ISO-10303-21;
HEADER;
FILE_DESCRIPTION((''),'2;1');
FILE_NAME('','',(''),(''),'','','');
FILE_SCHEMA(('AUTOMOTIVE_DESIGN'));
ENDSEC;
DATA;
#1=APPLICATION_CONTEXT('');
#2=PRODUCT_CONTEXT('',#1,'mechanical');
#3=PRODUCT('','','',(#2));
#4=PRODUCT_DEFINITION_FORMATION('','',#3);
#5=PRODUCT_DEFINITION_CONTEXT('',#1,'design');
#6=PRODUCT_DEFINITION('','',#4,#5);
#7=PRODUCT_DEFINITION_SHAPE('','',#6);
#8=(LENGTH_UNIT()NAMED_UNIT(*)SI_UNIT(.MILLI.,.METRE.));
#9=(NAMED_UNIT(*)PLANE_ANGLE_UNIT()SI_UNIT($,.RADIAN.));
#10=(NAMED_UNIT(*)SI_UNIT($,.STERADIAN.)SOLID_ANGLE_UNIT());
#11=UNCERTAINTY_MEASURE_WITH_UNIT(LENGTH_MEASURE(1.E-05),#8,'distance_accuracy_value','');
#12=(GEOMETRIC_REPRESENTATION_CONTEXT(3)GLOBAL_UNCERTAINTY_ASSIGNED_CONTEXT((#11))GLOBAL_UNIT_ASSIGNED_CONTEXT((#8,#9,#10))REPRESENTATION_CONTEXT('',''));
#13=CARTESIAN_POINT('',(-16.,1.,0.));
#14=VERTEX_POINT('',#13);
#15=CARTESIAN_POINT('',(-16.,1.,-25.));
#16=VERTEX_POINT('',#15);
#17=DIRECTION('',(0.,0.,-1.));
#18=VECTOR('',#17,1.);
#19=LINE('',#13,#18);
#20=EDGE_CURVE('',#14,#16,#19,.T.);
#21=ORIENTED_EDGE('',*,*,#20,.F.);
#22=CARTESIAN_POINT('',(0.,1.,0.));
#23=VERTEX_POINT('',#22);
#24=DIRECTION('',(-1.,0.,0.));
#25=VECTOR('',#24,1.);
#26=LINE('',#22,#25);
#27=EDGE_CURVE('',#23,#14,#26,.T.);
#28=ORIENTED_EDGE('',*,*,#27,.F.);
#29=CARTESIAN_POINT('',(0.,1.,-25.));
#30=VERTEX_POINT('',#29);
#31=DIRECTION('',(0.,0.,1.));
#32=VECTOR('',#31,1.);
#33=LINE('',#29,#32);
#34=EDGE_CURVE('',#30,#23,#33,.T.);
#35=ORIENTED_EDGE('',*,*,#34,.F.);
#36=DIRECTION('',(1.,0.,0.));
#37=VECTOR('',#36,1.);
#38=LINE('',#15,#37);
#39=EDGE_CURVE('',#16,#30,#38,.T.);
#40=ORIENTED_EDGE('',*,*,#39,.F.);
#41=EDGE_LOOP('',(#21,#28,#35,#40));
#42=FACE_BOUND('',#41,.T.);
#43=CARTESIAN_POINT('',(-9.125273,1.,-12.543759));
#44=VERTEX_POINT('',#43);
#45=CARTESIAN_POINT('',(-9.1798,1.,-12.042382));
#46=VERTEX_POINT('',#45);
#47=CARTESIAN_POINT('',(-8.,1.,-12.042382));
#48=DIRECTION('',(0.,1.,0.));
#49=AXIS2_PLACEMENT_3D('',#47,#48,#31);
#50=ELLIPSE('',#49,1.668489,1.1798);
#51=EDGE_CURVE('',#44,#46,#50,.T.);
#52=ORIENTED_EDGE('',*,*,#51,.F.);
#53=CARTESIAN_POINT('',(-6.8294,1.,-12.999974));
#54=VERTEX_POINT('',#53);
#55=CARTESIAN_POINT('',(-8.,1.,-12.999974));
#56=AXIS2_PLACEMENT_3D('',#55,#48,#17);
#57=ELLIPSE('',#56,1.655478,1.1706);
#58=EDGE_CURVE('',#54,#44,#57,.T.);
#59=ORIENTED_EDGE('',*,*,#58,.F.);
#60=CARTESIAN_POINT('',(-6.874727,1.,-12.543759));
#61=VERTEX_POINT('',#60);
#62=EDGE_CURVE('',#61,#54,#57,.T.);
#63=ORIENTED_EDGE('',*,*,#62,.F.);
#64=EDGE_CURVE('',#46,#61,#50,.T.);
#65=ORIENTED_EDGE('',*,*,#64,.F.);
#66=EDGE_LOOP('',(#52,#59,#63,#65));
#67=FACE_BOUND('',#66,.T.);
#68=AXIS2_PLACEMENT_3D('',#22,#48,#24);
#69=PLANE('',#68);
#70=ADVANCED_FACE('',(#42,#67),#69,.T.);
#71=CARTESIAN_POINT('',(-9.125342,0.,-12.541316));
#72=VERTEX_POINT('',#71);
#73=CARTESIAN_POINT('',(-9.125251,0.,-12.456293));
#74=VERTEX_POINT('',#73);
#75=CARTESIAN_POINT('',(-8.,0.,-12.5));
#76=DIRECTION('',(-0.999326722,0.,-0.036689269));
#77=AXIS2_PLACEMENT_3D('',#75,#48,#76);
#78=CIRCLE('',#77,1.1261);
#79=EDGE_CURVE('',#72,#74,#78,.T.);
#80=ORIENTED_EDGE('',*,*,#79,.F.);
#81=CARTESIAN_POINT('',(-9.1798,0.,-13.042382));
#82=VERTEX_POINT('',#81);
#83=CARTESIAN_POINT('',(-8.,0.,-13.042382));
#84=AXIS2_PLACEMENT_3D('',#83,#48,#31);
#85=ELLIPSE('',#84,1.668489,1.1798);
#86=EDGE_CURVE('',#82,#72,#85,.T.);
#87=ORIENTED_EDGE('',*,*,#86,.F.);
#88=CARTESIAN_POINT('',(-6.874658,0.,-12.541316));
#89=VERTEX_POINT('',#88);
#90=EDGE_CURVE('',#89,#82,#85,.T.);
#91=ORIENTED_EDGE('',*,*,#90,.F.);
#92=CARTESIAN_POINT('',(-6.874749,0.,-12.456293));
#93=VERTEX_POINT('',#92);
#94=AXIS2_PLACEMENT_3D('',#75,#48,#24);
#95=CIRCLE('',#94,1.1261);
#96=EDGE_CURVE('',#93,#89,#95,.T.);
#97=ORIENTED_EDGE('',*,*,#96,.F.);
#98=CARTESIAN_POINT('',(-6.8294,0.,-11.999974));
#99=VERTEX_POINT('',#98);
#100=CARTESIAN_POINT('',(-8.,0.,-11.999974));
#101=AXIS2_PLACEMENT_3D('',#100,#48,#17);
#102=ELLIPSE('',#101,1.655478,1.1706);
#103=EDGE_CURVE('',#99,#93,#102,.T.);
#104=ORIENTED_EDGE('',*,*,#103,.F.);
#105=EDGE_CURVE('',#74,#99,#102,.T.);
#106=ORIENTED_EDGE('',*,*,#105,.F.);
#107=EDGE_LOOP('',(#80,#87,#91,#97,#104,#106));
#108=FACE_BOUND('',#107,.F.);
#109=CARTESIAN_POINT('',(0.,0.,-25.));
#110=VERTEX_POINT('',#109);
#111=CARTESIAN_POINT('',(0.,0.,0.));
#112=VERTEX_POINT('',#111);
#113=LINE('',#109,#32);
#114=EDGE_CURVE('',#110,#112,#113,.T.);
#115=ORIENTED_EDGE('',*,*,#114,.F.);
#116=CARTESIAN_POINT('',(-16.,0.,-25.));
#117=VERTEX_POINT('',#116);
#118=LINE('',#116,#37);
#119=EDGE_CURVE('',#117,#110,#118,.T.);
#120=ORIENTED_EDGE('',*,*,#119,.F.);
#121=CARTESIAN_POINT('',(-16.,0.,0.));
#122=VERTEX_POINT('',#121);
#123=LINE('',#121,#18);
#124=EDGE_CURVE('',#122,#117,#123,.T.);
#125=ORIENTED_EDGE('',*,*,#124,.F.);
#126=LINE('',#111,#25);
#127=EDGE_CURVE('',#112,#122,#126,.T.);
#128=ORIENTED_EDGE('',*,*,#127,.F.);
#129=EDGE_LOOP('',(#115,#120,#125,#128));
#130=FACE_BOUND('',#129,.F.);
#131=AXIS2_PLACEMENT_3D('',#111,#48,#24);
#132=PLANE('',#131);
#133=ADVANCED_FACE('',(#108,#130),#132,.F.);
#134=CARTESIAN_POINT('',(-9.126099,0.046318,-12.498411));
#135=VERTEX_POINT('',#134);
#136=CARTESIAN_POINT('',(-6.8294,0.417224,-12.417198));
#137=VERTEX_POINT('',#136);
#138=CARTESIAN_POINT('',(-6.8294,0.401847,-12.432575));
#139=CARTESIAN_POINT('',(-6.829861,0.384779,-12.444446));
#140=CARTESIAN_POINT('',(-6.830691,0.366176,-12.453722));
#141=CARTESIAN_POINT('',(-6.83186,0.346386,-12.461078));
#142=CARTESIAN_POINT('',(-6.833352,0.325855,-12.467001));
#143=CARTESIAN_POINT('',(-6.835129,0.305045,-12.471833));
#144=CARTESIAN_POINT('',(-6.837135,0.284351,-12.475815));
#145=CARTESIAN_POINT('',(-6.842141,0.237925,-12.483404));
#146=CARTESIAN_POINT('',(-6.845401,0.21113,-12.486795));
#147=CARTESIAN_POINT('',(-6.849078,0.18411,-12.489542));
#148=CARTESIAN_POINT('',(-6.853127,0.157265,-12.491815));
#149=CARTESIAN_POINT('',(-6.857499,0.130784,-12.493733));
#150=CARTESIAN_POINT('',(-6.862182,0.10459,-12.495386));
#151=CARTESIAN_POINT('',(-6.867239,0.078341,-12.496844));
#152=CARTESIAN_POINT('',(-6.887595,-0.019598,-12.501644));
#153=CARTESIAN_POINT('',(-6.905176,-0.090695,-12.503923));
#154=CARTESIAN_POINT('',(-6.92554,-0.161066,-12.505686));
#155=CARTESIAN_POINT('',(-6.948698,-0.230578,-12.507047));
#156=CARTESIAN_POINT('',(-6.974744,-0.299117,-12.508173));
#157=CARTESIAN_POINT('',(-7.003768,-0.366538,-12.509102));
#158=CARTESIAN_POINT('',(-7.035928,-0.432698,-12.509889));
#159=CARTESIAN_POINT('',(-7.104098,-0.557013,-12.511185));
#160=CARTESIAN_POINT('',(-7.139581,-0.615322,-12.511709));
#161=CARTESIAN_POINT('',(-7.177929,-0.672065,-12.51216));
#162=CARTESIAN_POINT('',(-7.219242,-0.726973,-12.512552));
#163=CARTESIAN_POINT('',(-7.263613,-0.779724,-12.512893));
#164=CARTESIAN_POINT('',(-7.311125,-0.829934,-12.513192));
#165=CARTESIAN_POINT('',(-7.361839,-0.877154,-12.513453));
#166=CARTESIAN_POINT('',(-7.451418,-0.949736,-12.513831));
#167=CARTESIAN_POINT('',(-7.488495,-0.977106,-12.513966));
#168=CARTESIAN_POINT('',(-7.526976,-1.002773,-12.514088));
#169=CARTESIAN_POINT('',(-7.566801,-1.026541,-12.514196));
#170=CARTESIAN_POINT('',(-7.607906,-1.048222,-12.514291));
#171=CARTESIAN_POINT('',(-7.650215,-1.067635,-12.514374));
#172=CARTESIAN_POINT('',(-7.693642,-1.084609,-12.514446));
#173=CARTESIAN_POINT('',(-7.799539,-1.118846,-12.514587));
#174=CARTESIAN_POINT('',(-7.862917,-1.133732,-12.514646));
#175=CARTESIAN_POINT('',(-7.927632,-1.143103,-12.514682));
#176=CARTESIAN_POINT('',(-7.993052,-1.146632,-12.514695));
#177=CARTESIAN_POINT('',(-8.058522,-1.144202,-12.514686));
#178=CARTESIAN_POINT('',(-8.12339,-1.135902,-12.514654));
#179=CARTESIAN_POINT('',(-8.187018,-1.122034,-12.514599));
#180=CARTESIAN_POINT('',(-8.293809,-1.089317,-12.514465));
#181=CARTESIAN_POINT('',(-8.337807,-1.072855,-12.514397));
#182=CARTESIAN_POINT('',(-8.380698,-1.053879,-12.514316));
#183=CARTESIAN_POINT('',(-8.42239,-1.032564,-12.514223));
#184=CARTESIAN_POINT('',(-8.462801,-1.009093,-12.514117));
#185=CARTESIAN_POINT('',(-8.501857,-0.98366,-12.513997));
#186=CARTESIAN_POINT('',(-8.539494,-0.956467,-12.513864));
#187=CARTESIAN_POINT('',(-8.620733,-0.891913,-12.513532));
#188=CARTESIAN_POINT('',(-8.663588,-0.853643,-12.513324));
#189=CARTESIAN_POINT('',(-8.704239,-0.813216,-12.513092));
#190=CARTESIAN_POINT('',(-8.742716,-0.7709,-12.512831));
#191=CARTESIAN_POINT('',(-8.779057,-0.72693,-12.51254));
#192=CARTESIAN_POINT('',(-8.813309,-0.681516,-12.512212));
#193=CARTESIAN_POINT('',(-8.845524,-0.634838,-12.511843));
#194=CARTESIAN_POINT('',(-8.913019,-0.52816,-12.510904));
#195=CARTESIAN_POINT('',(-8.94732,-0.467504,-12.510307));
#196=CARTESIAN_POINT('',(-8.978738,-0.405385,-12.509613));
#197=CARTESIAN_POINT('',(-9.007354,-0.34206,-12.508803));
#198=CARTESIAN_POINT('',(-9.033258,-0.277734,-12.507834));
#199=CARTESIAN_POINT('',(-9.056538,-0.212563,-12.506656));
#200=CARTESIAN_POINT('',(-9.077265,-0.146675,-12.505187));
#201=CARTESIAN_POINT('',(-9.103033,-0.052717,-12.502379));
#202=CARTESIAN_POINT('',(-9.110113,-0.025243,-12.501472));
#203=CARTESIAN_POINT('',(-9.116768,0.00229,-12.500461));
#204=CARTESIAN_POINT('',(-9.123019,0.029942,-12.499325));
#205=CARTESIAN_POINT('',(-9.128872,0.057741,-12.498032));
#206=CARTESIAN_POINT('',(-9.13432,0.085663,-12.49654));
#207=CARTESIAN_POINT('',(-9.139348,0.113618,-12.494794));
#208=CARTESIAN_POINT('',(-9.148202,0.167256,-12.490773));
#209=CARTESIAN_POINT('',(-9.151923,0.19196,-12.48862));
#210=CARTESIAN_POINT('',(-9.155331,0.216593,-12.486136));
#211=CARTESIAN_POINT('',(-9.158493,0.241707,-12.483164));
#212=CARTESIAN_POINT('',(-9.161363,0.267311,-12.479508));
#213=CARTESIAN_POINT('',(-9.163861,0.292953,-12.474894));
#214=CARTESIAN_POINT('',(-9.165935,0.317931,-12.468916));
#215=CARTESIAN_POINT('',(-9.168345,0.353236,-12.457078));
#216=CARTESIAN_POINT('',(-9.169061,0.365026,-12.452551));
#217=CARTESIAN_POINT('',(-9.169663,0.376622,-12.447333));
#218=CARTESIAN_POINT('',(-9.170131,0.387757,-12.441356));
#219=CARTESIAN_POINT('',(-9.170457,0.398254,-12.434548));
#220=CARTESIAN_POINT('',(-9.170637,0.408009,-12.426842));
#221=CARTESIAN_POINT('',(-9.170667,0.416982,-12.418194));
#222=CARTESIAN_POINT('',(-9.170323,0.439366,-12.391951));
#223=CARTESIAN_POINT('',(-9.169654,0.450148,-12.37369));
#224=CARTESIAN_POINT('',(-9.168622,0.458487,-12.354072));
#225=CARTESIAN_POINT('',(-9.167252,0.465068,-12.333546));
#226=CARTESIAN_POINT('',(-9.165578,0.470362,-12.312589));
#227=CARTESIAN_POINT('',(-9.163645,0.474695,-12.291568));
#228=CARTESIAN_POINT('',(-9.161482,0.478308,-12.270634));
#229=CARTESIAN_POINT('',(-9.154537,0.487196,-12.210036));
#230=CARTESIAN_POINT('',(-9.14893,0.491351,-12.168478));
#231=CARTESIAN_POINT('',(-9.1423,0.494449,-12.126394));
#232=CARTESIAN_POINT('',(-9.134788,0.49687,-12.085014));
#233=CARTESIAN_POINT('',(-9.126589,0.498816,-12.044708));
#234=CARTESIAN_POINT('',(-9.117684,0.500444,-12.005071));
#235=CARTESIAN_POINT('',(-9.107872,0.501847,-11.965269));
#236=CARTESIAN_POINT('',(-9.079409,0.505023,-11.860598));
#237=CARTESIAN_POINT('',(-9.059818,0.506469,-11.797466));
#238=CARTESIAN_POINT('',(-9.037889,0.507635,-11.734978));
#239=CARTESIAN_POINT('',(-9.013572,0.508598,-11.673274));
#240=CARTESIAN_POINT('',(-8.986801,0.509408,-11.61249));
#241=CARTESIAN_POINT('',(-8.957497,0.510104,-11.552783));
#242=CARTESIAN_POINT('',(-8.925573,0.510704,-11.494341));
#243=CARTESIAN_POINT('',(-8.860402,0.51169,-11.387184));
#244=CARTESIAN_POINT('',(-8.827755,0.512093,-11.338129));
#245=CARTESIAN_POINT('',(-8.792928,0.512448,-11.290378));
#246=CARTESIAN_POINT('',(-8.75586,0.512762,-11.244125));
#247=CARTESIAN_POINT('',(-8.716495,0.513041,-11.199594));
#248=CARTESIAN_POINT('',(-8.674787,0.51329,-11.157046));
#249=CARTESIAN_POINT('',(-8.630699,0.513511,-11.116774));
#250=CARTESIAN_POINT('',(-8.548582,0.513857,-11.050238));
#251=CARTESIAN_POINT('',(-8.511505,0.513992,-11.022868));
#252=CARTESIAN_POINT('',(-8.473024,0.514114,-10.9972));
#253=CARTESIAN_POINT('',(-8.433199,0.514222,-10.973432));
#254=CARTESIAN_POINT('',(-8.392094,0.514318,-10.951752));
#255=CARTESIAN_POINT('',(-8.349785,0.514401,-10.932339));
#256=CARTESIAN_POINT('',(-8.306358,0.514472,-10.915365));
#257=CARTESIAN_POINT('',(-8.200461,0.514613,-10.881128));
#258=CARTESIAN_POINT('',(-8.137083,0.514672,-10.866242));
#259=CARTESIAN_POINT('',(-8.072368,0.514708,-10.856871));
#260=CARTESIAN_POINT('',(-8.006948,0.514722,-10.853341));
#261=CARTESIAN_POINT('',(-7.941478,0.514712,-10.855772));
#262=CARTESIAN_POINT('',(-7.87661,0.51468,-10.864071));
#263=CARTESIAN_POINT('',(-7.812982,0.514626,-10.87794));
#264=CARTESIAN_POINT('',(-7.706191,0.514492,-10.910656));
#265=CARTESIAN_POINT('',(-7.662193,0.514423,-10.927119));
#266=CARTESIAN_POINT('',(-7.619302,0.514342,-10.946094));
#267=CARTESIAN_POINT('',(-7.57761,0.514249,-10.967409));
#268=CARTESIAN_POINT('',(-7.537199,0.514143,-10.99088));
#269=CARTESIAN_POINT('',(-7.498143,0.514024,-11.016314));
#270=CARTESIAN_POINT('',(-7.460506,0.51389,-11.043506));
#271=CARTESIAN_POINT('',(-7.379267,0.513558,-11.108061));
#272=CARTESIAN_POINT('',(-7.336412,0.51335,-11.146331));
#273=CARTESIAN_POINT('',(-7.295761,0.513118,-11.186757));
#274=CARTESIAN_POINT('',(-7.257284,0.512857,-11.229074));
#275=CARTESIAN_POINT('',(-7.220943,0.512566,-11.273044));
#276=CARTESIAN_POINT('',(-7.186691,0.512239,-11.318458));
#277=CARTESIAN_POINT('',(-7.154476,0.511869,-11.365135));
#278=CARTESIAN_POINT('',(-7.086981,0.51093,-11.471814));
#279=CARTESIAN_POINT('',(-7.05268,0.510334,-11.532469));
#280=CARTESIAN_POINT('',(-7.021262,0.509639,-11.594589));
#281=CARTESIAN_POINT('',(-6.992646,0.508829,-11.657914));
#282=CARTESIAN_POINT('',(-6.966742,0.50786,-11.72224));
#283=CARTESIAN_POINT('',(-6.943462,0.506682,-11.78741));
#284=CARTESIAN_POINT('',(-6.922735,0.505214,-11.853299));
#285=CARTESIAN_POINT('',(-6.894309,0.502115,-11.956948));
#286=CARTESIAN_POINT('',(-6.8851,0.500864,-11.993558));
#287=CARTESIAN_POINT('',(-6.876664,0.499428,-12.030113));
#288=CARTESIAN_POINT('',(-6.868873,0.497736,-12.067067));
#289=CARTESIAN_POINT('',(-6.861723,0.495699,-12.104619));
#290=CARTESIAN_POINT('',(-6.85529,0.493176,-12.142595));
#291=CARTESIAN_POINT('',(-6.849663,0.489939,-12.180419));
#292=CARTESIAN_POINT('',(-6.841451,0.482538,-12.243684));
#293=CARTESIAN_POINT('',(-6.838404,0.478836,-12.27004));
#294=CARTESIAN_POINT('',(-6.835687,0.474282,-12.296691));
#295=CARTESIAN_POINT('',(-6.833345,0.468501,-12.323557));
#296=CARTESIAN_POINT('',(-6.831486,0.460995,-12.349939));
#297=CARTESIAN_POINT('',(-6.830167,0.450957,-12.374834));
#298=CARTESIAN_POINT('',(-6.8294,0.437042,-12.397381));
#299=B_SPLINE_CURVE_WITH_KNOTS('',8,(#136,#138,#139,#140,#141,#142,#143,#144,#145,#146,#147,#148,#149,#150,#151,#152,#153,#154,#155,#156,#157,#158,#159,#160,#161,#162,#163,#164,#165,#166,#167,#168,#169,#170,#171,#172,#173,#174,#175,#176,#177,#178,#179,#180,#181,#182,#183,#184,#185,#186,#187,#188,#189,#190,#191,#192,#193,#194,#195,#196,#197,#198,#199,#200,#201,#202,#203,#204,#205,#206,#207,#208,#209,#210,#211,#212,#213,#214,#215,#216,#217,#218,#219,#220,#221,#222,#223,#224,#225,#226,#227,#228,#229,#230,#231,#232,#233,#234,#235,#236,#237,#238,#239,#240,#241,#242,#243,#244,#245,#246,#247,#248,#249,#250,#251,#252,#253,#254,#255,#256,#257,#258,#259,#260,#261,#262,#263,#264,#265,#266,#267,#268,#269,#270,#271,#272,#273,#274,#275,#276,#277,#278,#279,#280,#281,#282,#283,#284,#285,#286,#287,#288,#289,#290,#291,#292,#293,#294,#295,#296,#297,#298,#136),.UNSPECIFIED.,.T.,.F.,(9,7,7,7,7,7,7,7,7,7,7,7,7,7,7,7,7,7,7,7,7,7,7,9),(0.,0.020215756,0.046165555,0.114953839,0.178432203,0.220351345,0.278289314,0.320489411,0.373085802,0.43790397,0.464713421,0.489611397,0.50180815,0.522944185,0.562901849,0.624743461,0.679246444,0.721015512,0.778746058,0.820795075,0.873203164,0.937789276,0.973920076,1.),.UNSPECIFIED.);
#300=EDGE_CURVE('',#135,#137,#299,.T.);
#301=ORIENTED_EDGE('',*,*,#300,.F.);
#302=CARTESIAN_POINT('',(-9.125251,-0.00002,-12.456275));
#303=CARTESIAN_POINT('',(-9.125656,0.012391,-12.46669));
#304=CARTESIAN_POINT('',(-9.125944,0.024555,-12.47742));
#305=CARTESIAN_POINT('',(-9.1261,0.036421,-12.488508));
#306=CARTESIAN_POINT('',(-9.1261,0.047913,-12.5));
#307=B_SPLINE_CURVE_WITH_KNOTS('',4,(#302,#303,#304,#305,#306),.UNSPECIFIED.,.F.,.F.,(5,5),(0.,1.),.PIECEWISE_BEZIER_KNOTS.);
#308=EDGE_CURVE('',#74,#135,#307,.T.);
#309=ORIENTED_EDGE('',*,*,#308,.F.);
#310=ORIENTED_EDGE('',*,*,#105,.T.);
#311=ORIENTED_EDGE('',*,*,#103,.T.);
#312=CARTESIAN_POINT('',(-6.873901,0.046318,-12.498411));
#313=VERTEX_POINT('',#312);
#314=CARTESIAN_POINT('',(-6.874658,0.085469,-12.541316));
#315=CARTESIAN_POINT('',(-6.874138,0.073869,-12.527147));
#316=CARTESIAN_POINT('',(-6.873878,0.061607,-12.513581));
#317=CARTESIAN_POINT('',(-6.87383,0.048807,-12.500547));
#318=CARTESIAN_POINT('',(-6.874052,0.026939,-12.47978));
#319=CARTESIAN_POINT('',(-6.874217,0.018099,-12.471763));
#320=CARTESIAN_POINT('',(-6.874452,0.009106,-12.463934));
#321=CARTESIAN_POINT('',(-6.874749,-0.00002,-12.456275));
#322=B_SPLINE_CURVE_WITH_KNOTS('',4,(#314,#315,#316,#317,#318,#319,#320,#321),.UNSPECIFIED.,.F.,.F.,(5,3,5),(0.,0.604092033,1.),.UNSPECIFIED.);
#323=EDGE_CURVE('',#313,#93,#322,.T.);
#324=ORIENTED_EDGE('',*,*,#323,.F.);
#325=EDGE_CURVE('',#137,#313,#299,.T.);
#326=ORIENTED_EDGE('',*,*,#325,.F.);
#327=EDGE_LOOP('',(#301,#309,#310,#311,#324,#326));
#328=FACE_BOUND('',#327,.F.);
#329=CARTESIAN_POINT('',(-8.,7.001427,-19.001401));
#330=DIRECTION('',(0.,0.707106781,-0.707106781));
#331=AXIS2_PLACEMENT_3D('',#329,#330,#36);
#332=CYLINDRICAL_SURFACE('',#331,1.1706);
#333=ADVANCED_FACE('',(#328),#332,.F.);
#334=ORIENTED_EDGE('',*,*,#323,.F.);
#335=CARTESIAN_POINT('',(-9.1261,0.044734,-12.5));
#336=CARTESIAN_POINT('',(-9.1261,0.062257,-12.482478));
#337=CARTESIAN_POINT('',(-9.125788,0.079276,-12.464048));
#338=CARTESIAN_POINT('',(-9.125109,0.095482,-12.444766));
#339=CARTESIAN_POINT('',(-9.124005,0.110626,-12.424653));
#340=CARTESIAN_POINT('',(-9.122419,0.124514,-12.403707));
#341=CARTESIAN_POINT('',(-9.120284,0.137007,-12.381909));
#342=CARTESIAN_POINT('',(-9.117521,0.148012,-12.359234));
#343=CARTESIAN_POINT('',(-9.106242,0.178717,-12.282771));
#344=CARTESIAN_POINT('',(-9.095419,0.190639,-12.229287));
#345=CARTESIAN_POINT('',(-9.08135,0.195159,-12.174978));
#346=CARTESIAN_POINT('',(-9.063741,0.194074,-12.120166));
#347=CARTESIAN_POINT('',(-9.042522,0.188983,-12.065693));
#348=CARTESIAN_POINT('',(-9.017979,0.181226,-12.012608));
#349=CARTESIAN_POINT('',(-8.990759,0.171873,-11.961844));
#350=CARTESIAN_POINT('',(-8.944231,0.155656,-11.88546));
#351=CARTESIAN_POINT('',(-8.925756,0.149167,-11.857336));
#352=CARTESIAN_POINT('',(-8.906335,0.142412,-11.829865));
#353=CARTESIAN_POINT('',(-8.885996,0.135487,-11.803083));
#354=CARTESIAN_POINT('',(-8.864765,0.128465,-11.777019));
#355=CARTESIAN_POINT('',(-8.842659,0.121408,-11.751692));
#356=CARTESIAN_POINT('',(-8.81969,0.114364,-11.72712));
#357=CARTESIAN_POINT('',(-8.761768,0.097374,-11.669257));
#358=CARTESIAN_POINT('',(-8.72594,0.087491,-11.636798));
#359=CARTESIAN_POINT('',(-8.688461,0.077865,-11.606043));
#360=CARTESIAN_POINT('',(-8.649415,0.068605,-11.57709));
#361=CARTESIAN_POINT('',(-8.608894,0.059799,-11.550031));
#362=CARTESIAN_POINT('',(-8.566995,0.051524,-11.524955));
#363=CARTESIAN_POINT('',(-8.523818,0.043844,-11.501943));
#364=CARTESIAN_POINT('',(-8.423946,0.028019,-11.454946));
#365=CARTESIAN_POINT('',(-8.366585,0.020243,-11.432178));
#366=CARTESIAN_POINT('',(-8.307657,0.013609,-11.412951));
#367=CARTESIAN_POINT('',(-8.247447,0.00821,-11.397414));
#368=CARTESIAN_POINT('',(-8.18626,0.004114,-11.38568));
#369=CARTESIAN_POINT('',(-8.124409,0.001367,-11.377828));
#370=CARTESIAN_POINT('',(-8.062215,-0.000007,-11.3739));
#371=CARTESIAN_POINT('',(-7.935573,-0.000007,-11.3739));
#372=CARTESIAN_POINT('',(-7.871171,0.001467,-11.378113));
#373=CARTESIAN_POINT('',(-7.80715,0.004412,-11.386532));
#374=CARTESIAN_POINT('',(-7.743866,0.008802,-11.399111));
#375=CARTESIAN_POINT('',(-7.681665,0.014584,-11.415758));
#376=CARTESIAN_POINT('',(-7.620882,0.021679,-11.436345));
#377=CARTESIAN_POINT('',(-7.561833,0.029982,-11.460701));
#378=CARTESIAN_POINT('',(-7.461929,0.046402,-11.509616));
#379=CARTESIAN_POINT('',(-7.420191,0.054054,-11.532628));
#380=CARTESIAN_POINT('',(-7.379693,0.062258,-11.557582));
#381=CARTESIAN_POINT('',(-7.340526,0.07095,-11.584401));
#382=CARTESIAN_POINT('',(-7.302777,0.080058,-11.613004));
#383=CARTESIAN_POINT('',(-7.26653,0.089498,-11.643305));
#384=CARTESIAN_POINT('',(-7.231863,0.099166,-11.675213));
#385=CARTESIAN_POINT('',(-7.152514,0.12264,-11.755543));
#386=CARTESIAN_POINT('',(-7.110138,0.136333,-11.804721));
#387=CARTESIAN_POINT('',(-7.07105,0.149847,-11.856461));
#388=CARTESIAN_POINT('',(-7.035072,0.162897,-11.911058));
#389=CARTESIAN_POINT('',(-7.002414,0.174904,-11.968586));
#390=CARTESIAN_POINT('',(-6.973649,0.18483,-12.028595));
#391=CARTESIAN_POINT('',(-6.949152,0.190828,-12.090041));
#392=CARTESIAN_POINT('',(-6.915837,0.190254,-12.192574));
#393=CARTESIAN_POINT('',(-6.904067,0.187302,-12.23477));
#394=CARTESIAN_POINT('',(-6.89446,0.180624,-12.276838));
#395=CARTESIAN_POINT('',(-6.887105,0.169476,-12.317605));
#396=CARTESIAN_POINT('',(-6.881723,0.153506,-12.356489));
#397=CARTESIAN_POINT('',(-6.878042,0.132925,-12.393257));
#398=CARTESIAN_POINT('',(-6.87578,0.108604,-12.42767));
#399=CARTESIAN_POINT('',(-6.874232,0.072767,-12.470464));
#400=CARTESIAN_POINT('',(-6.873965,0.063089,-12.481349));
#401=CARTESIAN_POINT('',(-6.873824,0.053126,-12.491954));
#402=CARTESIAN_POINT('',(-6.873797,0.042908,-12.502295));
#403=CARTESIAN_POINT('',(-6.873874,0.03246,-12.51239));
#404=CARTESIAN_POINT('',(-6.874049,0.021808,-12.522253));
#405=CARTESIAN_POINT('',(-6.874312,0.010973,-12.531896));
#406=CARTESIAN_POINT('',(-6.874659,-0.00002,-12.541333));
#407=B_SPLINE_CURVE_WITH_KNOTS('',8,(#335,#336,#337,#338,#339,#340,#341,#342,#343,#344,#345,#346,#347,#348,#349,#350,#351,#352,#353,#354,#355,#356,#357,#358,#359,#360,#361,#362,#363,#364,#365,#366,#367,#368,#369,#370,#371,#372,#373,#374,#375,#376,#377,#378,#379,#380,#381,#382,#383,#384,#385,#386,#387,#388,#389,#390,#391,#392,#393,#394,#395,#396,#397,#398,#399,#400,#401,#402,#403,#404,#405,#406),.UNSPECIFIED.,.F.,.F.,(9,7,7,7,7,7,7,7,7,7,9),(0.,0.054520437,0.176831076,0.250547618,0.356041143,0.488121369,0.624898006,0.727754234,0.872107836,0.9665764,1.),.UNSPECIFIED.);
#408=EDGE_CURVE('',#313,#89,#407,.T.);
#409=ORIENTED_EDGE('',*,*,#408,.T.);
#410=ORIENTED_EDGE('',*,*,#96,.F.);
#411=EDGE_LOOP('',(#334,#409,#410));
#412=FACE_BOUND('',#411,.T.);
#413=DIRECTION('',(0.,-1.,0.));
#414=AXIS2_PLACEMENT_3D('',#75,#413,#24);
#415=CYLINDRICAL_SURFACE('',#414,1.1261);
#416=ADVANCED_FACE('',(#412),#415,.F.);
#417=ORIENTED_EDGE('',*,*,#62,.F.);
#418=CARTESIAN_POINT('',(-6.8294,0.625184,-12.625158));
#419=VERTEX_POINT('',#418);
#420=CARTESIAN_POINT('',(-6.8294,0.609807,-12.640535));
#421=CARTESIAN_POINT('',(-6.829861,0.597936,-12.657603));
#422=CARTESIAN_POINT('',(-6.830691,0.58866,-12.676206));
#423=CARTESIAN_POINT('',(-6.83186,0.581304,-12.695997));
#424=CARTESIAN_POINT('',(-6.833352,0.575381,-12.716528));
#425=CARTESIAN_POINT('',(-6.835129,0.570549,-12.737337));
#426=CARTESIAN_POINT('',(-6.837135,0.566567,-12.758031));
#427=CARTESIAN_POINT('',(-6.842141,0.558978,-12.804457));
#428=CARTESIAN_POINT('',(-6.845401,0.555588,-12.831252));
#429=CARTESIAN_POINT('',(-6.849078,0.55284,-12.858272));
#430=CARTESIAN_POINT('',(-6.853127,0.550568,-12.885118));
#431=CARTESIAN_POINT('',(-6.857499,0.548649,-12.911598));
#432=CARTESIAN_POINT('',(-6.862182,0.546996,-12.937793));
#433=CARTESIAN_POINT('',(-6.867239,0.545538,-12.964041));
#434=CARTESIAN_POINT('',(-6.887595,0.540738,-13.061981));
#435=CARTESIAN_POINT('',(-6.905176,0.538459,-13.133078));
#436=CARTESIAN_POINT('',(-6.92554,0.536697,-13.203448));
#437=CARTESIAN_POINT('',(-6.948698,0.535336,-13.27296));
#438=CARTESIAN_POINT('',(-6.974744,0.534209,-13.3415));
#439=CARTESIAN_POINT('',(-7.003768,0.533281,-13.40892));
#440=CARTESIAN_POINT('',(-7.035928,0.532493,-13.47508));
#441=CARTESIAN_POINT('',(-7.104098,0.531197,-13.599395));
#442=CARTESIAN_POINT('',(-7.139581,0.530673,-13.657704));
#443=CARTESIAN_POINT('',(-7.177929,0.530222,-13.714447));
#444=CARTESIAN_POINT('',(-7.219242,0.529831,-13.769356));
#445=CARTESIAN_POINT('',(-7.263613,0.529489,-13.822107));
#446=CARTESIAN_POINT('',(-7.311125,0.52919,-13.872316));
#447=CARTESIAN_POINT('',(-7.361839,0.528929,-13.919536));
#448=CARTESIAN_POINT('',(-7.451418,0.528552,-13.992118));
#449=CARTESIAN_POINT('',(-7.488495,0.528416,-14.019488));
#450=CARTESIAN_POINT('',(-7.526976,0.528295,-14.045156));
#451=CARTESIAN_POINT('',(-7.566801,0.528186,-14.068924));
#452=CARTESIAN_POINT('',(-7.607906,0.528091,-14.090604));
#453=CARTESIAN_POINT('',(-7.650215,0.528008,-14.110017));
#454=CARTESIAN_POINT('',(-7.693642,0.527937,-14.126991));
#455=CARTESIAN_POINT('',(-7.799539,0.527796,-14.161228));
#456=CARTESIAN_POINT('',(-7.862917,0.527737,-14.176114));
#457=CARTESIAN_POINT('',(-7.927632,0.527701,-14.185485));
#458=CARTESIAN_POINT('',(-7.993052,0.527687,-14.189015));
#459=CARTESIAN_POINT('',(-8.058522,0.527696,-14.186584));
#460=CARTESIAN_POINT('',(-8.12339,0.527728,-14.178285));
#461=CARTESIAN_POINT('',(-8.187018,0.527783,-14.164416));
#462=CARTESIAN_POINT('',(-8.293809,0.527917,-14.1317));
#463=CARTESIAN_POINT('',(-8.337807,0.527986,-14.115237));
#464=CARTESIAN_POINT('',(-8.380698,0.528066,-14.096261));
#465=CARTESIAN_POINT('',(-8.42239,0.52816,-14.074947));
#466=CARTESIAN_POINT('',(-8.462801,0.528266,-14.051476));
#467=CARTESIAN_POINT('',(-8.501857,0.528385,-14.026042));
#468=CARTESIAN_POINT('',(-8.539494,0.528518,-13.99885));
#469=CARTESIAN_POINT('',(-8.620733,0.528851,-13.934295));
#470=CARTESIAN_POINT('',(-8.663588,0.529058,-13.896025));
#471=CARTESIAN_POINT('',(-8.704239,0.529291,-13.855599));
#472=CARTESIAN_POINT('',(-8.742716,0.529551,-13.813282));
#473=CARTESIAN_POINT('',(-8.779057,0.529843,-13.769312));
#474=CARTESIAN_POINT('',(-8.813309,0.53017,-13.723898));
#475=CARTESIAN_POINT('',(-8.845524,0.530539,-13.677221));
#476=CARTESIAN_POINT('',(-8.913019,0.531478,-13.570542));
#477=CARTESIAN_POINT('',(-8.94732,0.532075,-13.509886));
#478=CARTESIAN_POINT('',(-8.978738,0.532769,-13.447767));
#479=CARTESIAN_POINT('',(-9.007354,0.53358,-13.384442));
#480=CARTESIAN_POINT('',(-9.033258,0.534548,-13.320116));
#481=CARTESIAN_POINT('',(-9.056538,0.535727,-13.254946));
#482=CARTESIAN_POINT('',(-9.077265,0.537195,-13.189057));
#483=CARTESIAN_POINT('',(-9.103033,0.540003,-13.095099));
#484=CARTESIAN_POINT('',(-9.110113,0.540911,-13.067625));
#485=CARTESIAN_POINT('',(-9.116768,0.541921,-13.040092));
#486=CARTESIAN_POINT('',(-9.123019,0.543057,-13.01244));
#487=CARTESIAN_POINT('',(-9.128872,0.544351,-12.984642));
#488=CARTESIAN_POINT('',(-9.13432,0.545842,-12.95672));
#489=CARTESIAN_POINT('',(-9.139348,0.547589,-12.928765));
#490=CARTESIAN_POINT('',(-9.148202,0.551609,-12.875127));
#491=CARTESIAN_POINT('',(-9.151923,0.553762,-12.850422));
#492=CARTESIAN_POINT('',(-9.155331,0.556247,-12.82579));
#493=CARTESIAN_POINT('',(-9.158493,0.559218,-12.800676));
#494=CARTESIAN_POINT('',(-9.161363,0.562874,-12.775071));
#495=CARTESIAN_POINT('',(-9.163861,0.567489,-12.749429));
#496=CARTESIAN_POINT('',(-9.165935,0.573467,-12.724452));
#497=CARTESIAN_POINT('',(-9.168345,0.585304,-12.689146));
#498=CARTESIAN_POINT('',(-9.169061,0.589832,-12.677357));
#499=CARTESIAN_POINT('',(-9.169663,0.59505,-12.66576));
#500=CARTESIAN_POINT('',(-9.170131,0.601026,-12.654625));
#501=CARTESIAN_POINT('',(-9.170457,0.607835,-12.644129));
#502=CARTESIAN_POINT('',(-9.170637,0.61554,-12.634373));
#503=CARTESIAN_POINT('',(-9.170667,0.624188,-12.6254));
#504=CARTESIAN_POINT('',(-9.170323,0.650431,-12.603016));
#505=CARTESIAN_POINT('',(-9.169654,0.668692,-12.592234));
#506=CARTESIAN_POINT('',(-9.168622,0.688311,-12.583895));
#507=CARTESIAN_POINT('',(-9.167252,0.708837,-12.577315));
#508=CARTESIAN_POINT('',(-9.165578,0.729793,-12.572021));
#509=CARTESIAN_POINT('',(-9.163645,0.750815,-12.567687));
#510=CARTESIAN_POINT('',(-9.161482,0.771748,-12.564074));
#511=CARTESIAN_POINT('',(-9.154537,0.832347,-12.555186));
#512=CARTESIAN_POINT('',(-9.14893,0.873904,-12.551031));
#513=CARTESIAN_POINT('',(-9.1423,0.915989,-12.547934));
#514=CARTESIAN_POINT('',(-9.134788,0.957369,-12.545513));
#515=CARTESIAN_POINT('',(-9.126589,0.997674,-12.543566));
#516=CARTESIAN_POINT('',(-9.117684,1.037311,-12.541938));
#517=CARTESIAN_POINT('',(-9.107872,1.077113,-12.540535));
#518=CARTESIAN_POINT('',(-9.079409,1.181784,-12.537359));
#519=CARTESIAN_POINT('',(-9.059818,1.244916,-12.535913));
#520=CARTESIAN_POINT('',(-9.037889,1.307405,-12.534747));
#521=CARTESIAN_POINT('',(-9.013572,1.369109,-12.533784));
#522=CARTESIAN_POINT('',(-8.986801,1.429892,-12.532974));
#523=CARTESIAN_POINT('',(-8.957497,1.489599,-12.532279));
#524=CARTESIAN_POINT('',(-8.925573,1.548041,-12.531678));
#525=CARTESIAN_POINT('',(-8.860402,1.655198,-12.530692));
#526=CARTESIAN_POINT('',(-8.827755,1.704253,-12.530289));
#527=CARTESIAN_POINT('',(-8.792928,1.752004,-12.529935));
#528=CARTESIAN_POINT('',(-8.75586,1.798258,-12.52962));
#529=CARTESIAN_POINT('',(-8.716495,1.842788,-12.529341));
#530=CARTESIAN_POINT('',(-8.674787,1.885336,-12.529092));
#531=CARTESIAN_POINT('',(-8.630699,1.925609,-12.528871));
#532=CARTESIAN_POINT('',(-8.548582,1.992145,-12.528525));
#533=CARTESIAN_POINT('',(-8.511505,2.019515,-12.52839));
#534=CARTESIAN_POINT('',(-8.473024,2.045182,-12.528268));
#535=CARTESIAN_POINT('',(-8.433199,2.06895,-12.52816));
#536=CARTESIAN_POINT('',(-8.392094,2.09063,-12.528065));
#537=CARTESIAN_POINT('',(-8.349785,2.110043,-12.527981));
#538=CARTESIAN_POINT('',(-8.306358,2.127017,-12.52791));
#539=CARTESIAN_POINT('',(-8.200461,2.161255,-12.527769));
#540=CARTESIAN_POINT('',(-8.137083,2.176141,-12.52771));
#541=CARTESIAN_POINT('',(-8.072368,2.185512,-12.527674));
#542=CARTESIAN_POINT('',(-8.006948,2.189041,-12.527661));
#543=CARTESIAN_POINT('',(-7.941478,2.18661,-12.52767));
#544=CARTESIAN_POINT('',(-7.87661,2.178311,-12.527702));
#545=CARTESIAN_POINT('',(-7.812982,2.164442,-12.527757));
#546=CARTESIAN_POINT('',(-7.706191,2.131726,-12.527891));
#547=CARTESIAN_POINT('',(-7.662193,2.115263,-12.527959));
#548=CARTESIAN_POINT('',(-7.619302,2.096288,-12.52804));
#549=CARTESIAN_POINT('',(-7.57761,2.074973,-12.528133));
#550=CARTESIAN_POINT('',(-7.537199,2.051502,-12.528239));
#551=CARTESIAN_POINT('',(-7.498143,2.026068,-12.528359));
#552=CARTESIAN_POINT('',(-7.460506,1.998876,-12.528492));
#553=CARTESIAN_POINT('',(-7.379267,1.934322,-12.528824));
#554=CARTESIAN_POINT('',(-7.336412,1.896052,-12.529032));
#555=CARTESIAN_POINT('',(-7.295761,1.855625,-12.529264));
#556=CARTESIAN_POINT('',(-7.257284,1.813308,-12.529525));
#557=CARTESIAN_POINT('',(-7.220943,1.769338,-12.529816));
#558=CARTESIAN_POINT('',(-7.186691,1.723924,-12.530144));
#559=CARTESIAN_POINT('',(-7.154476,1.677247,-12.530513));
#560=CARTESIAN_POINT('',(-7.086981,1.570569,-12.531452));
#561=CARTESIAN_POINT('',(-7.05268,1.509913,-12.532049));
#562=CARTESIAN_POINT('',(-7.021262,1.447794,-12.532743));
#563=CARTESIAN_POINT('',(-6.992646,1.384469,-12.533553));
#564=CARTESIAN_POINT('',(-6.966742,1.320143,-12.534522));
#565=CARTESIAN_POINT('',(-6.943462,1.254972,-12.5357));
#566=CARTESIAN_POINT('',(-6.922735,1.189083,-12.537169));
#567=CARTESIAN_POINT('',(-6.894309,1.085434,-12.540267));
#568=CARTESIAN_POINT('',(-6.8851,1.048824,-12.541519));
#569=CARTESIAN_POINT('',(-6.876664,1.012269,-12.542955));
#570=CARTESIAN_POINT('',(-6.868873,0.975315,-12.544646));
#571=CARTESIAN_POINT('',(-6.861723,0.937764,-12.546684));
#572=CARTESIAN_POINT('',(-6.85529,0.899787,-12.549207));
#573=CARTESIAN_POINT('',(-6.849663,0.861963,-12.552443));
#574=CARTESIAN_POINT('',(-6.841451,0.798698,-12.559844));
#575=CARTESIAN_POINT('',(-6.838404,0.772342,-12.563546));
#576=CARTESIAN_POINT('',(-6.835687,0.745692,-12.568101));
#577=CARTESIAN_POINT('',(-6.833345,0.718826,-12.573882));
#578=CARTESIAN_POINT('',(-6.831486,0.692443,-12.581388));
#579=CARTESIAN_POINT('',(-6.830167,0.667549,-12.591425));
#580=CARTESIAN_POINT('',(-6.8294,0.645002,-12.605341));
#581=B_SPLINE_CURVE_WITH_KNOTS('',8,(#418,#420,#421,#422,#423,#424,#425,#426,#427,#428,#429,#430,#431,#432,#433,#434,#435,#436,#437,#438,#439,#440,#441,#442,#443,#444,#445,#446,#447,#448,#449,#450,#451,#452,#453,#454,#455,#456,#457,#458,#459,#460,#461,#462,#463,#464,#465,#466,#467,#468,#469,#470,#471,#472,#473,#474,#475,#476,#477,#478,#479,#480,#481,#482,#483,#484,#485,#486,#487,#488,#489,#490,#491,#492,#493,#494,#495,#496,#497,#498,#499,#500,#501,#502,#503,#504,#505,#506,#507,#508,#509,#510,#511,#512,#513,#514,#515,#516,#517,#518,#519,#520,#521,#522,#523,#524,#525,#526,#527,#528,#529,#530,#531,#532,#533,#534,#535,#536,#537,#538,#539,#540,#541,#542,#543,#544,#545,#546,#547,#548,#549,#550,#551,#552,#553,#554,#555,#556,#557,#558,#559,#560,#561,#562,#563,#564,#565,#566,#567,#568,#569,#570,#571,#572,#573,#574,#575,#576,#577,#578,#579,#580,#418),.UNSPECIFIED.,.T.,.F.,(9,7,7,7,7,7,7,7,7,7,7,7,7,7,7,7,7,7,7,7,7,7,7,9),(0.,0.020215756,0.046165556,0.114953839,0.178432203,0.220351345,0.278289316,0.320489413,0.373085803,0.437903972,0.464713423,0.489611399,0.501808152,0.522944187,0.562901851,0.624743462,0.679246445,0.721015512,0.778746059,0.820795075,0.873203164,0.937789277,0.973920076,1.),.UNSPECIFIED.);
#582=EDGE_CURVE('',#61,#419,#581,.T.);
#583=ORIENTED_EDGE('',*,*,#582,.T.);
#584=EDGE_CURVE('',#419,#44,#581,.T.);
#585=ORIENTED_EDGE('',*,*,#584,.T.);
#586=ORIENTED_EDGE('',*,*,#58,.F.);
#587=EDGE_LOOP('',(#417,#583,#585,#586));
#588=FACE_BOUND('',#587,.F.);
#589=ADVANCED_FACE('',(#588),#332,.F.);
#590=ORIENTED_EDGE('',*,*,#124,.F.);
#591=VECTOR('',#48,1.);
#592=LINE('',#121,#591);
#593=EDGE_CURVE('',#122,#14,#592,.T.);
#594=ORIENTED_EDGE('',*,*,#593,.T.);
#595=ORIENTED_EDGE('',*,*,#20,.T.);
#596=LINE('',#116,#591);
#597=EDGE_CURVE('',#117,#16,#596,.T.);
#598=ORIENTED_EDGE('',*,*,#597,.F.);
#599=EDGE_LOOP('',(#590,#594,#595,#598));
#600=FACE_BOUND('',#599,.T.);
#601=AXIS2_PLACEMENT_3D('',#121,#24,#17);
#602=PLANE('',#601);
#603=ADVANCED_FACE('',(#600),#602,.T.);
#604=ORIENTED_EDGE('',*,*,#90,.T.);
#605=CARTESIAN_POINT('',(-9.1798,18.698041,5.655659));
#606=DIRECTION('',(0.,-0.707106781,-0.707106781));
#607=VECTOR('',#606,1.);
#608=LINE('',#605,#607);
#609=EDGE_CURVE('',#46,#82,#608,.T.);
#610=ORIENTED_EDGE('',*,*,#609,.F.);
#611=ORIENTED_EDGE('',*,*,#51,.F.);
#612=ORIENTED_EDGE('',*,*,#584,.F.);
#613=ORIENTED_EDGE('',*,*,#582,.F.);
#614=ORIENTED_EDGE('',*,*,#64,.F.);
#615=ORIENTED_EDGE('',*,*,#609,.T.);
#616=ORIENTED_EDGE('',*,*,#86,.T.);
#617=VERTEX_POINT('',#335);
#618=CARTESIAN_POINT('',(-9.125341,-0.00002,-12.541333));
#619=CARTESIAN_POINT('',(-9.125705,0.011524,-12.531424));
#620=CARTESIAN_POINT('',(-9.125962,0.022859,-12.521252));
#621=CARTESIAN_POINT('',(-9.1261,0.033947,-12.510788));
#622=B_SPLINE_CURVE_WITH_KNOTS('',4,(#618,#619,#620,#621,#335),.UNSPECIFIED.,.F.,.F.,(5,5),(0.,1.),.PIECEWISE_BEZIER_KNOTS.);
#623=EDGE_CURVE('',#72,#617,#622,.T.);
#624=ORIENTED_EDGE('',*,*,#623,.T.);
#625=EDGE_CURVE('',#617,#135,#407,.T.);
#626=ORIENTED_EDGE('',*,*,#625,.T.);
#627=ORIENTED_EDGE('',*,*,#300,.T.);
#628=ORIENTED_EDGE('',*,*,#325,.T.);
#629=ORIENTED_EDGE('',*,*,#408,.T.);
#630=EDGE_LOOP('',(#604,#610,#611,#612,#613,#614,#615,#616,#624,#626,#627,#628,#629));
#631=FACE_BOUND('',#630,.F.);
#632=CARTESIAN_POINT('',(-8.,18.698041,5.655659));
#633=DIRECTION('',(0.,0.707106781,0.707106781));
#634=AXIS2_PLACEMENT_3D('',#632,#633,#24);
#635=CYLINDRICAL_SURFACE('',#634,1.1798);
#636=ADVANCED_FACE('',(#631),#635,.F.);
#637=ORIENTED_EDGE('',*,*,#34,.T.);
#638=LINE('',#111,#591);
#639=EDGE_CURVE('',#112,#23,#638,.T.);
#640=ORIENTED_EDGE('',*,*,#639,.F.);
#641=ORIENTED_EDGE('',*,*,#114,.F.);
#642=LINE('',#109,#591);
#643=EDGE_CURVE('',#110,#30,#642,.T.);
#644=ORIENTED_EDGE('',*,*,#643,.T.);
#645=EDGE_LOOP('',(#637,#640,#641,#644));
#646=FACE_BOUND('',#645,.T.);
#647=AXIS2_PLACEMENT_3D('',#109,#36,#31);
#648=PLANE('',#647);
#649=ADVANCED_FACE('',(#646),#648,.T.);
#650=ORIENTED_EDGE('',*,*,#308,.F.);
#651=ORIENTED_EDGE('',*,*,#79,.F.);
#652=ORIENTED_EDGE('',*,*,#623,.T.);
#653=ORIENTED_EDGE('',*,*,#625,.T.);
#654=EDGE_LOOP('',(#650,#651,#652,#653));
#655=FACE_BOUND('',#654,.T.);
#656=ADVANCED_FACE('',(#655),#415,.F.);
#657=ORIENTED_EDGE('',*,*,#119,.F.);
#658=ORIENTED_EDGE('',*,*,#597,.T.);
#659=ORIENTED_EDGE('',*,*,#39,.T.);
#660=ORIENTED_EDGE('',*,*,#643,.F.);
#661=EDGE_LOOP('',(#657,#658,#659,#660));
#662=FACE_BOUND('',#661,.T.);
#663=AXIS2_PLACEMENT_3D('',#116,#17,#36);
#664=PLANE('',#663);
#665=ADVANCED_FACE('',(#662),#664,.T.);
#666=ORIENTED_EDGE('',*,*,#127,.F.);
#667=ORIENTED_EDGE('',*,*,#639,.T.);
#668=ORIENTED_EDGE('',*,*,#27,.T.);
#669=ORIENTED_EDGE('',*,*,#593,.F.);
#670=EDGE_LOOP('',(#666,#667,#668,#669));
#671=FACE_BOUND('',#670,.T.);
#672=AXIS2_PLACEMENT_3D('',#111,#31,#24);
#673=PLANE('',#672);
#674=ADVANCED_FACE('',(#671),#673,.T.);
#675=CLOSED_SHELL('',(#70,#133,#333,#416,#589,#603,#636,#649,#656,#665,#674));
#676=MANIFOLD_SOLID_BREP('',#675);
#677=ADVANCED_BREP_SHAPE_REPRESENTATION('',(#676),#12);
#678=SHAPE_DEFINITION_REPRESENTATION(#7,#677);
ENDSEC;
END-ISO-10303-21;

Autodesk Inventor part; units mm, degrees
ref_plane "YZ Plane" through (0, 0, 0) normal (1, 0, 0) x (0, 1, 0)
ref_plane "XZ Plane" through (0, 0, 0) normal (0, 1, 0) x (-1, 0, 0)
ref_plane "XY Plane" through (0, 0, 0) normal (0, 0, 1) x (1, 0, 0)
sketch "Sketch1" plane through (0, 0, 0) normal (0, 1, 0) x (-1, 0, 0)
  line L0 (0, 0) -> (16, 0)
  line L1 (16, 0) -> (16, -25)
  line L2 (16, -25) -> (0, -25)
  line L3 (0, -25) -> (0, 0)
  circle A0 centre (8, -12.5) radius 1.1261
  dimension "d0" = 16
  dimension "d1" = 25
extrude "Extrusion1" add sketch "Sketch1" along normal blind 1
ref_plane "Work Plane1" through (16.9, 36.305, -11.9513) normal (0, 0.7071, 0.7071) x (-1, 0, 0)
sketch "Sketch2" plane through (16.9, 36.305, -11.9513) normal (0, 0.7071, 0.7071) x (-1, 0, 0)
  ellipse E0 centre (24.9, 24.5764) end of major axis (23.7739, 24.5764) minor radius 0.7963 projected
  circle A0 centre (24.9, 24.9) radius 1.1798
  ellipse E1 centre (24.9, 25.2835) end of major axis (23.7739, 25.2835) minor radius 0.7963 projected
  point P0 (16.9, 34.1223)
  dimension "d4" = 0.3236
extrude "Extrusion2" cut sketch "Sketch2" against normal through all contours E0 E1 A0 | E0 A0 E1 | E1 A0 E0 | E0 E1 | E0 A0 | E1 A0 E0 picked at (24.9476, 23.7672)
ref_plane "Work Plane2" through (0, 1, -25) normal (0, 0.7071, -0.7071) x (1, 0, 0)
sketch "Sketch3" plane through (0, 1, -25) normal (0, 0.7071, -0.7071) x (1, 0, 0)
  arc A0 (-7.287, -8.2225) -> (-8.713, -8.2225) centre (-8, -9.1624) ccw projected
  ellipse E0 centre (-8, -8.8388) end of major axis (-6.8739, -8.8388) minor radius 0.7963 (-6.8748, -8.8079) -> (-7.287, -8.2225) ccw projected
  arc A1 (-9.1252, -8.8079) -> (-6.8748, -8.8079) centre (-8, -9.1624) ccw projected
  ellipse E1 centre (-8, -8.8388) end of major axis (-6.8739, -8.8388) minor radius 0.7963 (-8.713, -8.2225) -> (-9.1252, -8.8079) ccw projected
  line L0 (-16, -17.6777) -> (0, -17.6777) projected
  line L1 (0, -17.6777) -> (0, 0) projected
  line L2 (0, 0) -> (-16, 0) projected
  line L3 (-16, 0) -> (-16, -17.6777) projected
  line L4 (0, 0.7071) -> (0, -16.9706) construction
  line L5 (-16, 0) -> (-16, -17.6777) construction
  line L6 (-16, -17.6777) -> (0, -17.6777) construction
  line L7 (-16, -17.6777) -> (0, -17.6777) construction
  arc A2 (-9.1252, -8.8079) -> (-6.8748, -8.8079) centre (-8, -9.1624) ccw construction
  arc A3 (-7.287, -8.2225) -> (-8.713, -8.2225) centre (-8, -9.1624) ccw construction
  arc A4 (-6.8747, -8.1025) -> (-9.1253, -8.1025) centre (-8, -7.7482) ccw construction
  line L8 (-16, 0.7071) -> (0, 0.7071) projected
  line L9 (0, 0.7071) -> (-16, -17.6777)
  line L10 (0, -17.6777) -> (0, 0) projected
  line L11 (0, -17.6777) -> (-16, 0.7071)
  circle A5 centre (-8, -8.4853) radius 1.1706
  point P0 (-8, -8.928)
extrude "Extrusion3" cut sketch "Sketch3" against normal blind 25.4 contours E0 A5 L11 L9 A0 | A0 L9 A5 E0 | L9 L11 A0 | A0 L11 A5 L9 | L11 L9 A5 E1 A0 | A0 E1 A5 L11 | L11 A5 L9
properties part number "00_Comar_Dichroic_16x25x0.2"
